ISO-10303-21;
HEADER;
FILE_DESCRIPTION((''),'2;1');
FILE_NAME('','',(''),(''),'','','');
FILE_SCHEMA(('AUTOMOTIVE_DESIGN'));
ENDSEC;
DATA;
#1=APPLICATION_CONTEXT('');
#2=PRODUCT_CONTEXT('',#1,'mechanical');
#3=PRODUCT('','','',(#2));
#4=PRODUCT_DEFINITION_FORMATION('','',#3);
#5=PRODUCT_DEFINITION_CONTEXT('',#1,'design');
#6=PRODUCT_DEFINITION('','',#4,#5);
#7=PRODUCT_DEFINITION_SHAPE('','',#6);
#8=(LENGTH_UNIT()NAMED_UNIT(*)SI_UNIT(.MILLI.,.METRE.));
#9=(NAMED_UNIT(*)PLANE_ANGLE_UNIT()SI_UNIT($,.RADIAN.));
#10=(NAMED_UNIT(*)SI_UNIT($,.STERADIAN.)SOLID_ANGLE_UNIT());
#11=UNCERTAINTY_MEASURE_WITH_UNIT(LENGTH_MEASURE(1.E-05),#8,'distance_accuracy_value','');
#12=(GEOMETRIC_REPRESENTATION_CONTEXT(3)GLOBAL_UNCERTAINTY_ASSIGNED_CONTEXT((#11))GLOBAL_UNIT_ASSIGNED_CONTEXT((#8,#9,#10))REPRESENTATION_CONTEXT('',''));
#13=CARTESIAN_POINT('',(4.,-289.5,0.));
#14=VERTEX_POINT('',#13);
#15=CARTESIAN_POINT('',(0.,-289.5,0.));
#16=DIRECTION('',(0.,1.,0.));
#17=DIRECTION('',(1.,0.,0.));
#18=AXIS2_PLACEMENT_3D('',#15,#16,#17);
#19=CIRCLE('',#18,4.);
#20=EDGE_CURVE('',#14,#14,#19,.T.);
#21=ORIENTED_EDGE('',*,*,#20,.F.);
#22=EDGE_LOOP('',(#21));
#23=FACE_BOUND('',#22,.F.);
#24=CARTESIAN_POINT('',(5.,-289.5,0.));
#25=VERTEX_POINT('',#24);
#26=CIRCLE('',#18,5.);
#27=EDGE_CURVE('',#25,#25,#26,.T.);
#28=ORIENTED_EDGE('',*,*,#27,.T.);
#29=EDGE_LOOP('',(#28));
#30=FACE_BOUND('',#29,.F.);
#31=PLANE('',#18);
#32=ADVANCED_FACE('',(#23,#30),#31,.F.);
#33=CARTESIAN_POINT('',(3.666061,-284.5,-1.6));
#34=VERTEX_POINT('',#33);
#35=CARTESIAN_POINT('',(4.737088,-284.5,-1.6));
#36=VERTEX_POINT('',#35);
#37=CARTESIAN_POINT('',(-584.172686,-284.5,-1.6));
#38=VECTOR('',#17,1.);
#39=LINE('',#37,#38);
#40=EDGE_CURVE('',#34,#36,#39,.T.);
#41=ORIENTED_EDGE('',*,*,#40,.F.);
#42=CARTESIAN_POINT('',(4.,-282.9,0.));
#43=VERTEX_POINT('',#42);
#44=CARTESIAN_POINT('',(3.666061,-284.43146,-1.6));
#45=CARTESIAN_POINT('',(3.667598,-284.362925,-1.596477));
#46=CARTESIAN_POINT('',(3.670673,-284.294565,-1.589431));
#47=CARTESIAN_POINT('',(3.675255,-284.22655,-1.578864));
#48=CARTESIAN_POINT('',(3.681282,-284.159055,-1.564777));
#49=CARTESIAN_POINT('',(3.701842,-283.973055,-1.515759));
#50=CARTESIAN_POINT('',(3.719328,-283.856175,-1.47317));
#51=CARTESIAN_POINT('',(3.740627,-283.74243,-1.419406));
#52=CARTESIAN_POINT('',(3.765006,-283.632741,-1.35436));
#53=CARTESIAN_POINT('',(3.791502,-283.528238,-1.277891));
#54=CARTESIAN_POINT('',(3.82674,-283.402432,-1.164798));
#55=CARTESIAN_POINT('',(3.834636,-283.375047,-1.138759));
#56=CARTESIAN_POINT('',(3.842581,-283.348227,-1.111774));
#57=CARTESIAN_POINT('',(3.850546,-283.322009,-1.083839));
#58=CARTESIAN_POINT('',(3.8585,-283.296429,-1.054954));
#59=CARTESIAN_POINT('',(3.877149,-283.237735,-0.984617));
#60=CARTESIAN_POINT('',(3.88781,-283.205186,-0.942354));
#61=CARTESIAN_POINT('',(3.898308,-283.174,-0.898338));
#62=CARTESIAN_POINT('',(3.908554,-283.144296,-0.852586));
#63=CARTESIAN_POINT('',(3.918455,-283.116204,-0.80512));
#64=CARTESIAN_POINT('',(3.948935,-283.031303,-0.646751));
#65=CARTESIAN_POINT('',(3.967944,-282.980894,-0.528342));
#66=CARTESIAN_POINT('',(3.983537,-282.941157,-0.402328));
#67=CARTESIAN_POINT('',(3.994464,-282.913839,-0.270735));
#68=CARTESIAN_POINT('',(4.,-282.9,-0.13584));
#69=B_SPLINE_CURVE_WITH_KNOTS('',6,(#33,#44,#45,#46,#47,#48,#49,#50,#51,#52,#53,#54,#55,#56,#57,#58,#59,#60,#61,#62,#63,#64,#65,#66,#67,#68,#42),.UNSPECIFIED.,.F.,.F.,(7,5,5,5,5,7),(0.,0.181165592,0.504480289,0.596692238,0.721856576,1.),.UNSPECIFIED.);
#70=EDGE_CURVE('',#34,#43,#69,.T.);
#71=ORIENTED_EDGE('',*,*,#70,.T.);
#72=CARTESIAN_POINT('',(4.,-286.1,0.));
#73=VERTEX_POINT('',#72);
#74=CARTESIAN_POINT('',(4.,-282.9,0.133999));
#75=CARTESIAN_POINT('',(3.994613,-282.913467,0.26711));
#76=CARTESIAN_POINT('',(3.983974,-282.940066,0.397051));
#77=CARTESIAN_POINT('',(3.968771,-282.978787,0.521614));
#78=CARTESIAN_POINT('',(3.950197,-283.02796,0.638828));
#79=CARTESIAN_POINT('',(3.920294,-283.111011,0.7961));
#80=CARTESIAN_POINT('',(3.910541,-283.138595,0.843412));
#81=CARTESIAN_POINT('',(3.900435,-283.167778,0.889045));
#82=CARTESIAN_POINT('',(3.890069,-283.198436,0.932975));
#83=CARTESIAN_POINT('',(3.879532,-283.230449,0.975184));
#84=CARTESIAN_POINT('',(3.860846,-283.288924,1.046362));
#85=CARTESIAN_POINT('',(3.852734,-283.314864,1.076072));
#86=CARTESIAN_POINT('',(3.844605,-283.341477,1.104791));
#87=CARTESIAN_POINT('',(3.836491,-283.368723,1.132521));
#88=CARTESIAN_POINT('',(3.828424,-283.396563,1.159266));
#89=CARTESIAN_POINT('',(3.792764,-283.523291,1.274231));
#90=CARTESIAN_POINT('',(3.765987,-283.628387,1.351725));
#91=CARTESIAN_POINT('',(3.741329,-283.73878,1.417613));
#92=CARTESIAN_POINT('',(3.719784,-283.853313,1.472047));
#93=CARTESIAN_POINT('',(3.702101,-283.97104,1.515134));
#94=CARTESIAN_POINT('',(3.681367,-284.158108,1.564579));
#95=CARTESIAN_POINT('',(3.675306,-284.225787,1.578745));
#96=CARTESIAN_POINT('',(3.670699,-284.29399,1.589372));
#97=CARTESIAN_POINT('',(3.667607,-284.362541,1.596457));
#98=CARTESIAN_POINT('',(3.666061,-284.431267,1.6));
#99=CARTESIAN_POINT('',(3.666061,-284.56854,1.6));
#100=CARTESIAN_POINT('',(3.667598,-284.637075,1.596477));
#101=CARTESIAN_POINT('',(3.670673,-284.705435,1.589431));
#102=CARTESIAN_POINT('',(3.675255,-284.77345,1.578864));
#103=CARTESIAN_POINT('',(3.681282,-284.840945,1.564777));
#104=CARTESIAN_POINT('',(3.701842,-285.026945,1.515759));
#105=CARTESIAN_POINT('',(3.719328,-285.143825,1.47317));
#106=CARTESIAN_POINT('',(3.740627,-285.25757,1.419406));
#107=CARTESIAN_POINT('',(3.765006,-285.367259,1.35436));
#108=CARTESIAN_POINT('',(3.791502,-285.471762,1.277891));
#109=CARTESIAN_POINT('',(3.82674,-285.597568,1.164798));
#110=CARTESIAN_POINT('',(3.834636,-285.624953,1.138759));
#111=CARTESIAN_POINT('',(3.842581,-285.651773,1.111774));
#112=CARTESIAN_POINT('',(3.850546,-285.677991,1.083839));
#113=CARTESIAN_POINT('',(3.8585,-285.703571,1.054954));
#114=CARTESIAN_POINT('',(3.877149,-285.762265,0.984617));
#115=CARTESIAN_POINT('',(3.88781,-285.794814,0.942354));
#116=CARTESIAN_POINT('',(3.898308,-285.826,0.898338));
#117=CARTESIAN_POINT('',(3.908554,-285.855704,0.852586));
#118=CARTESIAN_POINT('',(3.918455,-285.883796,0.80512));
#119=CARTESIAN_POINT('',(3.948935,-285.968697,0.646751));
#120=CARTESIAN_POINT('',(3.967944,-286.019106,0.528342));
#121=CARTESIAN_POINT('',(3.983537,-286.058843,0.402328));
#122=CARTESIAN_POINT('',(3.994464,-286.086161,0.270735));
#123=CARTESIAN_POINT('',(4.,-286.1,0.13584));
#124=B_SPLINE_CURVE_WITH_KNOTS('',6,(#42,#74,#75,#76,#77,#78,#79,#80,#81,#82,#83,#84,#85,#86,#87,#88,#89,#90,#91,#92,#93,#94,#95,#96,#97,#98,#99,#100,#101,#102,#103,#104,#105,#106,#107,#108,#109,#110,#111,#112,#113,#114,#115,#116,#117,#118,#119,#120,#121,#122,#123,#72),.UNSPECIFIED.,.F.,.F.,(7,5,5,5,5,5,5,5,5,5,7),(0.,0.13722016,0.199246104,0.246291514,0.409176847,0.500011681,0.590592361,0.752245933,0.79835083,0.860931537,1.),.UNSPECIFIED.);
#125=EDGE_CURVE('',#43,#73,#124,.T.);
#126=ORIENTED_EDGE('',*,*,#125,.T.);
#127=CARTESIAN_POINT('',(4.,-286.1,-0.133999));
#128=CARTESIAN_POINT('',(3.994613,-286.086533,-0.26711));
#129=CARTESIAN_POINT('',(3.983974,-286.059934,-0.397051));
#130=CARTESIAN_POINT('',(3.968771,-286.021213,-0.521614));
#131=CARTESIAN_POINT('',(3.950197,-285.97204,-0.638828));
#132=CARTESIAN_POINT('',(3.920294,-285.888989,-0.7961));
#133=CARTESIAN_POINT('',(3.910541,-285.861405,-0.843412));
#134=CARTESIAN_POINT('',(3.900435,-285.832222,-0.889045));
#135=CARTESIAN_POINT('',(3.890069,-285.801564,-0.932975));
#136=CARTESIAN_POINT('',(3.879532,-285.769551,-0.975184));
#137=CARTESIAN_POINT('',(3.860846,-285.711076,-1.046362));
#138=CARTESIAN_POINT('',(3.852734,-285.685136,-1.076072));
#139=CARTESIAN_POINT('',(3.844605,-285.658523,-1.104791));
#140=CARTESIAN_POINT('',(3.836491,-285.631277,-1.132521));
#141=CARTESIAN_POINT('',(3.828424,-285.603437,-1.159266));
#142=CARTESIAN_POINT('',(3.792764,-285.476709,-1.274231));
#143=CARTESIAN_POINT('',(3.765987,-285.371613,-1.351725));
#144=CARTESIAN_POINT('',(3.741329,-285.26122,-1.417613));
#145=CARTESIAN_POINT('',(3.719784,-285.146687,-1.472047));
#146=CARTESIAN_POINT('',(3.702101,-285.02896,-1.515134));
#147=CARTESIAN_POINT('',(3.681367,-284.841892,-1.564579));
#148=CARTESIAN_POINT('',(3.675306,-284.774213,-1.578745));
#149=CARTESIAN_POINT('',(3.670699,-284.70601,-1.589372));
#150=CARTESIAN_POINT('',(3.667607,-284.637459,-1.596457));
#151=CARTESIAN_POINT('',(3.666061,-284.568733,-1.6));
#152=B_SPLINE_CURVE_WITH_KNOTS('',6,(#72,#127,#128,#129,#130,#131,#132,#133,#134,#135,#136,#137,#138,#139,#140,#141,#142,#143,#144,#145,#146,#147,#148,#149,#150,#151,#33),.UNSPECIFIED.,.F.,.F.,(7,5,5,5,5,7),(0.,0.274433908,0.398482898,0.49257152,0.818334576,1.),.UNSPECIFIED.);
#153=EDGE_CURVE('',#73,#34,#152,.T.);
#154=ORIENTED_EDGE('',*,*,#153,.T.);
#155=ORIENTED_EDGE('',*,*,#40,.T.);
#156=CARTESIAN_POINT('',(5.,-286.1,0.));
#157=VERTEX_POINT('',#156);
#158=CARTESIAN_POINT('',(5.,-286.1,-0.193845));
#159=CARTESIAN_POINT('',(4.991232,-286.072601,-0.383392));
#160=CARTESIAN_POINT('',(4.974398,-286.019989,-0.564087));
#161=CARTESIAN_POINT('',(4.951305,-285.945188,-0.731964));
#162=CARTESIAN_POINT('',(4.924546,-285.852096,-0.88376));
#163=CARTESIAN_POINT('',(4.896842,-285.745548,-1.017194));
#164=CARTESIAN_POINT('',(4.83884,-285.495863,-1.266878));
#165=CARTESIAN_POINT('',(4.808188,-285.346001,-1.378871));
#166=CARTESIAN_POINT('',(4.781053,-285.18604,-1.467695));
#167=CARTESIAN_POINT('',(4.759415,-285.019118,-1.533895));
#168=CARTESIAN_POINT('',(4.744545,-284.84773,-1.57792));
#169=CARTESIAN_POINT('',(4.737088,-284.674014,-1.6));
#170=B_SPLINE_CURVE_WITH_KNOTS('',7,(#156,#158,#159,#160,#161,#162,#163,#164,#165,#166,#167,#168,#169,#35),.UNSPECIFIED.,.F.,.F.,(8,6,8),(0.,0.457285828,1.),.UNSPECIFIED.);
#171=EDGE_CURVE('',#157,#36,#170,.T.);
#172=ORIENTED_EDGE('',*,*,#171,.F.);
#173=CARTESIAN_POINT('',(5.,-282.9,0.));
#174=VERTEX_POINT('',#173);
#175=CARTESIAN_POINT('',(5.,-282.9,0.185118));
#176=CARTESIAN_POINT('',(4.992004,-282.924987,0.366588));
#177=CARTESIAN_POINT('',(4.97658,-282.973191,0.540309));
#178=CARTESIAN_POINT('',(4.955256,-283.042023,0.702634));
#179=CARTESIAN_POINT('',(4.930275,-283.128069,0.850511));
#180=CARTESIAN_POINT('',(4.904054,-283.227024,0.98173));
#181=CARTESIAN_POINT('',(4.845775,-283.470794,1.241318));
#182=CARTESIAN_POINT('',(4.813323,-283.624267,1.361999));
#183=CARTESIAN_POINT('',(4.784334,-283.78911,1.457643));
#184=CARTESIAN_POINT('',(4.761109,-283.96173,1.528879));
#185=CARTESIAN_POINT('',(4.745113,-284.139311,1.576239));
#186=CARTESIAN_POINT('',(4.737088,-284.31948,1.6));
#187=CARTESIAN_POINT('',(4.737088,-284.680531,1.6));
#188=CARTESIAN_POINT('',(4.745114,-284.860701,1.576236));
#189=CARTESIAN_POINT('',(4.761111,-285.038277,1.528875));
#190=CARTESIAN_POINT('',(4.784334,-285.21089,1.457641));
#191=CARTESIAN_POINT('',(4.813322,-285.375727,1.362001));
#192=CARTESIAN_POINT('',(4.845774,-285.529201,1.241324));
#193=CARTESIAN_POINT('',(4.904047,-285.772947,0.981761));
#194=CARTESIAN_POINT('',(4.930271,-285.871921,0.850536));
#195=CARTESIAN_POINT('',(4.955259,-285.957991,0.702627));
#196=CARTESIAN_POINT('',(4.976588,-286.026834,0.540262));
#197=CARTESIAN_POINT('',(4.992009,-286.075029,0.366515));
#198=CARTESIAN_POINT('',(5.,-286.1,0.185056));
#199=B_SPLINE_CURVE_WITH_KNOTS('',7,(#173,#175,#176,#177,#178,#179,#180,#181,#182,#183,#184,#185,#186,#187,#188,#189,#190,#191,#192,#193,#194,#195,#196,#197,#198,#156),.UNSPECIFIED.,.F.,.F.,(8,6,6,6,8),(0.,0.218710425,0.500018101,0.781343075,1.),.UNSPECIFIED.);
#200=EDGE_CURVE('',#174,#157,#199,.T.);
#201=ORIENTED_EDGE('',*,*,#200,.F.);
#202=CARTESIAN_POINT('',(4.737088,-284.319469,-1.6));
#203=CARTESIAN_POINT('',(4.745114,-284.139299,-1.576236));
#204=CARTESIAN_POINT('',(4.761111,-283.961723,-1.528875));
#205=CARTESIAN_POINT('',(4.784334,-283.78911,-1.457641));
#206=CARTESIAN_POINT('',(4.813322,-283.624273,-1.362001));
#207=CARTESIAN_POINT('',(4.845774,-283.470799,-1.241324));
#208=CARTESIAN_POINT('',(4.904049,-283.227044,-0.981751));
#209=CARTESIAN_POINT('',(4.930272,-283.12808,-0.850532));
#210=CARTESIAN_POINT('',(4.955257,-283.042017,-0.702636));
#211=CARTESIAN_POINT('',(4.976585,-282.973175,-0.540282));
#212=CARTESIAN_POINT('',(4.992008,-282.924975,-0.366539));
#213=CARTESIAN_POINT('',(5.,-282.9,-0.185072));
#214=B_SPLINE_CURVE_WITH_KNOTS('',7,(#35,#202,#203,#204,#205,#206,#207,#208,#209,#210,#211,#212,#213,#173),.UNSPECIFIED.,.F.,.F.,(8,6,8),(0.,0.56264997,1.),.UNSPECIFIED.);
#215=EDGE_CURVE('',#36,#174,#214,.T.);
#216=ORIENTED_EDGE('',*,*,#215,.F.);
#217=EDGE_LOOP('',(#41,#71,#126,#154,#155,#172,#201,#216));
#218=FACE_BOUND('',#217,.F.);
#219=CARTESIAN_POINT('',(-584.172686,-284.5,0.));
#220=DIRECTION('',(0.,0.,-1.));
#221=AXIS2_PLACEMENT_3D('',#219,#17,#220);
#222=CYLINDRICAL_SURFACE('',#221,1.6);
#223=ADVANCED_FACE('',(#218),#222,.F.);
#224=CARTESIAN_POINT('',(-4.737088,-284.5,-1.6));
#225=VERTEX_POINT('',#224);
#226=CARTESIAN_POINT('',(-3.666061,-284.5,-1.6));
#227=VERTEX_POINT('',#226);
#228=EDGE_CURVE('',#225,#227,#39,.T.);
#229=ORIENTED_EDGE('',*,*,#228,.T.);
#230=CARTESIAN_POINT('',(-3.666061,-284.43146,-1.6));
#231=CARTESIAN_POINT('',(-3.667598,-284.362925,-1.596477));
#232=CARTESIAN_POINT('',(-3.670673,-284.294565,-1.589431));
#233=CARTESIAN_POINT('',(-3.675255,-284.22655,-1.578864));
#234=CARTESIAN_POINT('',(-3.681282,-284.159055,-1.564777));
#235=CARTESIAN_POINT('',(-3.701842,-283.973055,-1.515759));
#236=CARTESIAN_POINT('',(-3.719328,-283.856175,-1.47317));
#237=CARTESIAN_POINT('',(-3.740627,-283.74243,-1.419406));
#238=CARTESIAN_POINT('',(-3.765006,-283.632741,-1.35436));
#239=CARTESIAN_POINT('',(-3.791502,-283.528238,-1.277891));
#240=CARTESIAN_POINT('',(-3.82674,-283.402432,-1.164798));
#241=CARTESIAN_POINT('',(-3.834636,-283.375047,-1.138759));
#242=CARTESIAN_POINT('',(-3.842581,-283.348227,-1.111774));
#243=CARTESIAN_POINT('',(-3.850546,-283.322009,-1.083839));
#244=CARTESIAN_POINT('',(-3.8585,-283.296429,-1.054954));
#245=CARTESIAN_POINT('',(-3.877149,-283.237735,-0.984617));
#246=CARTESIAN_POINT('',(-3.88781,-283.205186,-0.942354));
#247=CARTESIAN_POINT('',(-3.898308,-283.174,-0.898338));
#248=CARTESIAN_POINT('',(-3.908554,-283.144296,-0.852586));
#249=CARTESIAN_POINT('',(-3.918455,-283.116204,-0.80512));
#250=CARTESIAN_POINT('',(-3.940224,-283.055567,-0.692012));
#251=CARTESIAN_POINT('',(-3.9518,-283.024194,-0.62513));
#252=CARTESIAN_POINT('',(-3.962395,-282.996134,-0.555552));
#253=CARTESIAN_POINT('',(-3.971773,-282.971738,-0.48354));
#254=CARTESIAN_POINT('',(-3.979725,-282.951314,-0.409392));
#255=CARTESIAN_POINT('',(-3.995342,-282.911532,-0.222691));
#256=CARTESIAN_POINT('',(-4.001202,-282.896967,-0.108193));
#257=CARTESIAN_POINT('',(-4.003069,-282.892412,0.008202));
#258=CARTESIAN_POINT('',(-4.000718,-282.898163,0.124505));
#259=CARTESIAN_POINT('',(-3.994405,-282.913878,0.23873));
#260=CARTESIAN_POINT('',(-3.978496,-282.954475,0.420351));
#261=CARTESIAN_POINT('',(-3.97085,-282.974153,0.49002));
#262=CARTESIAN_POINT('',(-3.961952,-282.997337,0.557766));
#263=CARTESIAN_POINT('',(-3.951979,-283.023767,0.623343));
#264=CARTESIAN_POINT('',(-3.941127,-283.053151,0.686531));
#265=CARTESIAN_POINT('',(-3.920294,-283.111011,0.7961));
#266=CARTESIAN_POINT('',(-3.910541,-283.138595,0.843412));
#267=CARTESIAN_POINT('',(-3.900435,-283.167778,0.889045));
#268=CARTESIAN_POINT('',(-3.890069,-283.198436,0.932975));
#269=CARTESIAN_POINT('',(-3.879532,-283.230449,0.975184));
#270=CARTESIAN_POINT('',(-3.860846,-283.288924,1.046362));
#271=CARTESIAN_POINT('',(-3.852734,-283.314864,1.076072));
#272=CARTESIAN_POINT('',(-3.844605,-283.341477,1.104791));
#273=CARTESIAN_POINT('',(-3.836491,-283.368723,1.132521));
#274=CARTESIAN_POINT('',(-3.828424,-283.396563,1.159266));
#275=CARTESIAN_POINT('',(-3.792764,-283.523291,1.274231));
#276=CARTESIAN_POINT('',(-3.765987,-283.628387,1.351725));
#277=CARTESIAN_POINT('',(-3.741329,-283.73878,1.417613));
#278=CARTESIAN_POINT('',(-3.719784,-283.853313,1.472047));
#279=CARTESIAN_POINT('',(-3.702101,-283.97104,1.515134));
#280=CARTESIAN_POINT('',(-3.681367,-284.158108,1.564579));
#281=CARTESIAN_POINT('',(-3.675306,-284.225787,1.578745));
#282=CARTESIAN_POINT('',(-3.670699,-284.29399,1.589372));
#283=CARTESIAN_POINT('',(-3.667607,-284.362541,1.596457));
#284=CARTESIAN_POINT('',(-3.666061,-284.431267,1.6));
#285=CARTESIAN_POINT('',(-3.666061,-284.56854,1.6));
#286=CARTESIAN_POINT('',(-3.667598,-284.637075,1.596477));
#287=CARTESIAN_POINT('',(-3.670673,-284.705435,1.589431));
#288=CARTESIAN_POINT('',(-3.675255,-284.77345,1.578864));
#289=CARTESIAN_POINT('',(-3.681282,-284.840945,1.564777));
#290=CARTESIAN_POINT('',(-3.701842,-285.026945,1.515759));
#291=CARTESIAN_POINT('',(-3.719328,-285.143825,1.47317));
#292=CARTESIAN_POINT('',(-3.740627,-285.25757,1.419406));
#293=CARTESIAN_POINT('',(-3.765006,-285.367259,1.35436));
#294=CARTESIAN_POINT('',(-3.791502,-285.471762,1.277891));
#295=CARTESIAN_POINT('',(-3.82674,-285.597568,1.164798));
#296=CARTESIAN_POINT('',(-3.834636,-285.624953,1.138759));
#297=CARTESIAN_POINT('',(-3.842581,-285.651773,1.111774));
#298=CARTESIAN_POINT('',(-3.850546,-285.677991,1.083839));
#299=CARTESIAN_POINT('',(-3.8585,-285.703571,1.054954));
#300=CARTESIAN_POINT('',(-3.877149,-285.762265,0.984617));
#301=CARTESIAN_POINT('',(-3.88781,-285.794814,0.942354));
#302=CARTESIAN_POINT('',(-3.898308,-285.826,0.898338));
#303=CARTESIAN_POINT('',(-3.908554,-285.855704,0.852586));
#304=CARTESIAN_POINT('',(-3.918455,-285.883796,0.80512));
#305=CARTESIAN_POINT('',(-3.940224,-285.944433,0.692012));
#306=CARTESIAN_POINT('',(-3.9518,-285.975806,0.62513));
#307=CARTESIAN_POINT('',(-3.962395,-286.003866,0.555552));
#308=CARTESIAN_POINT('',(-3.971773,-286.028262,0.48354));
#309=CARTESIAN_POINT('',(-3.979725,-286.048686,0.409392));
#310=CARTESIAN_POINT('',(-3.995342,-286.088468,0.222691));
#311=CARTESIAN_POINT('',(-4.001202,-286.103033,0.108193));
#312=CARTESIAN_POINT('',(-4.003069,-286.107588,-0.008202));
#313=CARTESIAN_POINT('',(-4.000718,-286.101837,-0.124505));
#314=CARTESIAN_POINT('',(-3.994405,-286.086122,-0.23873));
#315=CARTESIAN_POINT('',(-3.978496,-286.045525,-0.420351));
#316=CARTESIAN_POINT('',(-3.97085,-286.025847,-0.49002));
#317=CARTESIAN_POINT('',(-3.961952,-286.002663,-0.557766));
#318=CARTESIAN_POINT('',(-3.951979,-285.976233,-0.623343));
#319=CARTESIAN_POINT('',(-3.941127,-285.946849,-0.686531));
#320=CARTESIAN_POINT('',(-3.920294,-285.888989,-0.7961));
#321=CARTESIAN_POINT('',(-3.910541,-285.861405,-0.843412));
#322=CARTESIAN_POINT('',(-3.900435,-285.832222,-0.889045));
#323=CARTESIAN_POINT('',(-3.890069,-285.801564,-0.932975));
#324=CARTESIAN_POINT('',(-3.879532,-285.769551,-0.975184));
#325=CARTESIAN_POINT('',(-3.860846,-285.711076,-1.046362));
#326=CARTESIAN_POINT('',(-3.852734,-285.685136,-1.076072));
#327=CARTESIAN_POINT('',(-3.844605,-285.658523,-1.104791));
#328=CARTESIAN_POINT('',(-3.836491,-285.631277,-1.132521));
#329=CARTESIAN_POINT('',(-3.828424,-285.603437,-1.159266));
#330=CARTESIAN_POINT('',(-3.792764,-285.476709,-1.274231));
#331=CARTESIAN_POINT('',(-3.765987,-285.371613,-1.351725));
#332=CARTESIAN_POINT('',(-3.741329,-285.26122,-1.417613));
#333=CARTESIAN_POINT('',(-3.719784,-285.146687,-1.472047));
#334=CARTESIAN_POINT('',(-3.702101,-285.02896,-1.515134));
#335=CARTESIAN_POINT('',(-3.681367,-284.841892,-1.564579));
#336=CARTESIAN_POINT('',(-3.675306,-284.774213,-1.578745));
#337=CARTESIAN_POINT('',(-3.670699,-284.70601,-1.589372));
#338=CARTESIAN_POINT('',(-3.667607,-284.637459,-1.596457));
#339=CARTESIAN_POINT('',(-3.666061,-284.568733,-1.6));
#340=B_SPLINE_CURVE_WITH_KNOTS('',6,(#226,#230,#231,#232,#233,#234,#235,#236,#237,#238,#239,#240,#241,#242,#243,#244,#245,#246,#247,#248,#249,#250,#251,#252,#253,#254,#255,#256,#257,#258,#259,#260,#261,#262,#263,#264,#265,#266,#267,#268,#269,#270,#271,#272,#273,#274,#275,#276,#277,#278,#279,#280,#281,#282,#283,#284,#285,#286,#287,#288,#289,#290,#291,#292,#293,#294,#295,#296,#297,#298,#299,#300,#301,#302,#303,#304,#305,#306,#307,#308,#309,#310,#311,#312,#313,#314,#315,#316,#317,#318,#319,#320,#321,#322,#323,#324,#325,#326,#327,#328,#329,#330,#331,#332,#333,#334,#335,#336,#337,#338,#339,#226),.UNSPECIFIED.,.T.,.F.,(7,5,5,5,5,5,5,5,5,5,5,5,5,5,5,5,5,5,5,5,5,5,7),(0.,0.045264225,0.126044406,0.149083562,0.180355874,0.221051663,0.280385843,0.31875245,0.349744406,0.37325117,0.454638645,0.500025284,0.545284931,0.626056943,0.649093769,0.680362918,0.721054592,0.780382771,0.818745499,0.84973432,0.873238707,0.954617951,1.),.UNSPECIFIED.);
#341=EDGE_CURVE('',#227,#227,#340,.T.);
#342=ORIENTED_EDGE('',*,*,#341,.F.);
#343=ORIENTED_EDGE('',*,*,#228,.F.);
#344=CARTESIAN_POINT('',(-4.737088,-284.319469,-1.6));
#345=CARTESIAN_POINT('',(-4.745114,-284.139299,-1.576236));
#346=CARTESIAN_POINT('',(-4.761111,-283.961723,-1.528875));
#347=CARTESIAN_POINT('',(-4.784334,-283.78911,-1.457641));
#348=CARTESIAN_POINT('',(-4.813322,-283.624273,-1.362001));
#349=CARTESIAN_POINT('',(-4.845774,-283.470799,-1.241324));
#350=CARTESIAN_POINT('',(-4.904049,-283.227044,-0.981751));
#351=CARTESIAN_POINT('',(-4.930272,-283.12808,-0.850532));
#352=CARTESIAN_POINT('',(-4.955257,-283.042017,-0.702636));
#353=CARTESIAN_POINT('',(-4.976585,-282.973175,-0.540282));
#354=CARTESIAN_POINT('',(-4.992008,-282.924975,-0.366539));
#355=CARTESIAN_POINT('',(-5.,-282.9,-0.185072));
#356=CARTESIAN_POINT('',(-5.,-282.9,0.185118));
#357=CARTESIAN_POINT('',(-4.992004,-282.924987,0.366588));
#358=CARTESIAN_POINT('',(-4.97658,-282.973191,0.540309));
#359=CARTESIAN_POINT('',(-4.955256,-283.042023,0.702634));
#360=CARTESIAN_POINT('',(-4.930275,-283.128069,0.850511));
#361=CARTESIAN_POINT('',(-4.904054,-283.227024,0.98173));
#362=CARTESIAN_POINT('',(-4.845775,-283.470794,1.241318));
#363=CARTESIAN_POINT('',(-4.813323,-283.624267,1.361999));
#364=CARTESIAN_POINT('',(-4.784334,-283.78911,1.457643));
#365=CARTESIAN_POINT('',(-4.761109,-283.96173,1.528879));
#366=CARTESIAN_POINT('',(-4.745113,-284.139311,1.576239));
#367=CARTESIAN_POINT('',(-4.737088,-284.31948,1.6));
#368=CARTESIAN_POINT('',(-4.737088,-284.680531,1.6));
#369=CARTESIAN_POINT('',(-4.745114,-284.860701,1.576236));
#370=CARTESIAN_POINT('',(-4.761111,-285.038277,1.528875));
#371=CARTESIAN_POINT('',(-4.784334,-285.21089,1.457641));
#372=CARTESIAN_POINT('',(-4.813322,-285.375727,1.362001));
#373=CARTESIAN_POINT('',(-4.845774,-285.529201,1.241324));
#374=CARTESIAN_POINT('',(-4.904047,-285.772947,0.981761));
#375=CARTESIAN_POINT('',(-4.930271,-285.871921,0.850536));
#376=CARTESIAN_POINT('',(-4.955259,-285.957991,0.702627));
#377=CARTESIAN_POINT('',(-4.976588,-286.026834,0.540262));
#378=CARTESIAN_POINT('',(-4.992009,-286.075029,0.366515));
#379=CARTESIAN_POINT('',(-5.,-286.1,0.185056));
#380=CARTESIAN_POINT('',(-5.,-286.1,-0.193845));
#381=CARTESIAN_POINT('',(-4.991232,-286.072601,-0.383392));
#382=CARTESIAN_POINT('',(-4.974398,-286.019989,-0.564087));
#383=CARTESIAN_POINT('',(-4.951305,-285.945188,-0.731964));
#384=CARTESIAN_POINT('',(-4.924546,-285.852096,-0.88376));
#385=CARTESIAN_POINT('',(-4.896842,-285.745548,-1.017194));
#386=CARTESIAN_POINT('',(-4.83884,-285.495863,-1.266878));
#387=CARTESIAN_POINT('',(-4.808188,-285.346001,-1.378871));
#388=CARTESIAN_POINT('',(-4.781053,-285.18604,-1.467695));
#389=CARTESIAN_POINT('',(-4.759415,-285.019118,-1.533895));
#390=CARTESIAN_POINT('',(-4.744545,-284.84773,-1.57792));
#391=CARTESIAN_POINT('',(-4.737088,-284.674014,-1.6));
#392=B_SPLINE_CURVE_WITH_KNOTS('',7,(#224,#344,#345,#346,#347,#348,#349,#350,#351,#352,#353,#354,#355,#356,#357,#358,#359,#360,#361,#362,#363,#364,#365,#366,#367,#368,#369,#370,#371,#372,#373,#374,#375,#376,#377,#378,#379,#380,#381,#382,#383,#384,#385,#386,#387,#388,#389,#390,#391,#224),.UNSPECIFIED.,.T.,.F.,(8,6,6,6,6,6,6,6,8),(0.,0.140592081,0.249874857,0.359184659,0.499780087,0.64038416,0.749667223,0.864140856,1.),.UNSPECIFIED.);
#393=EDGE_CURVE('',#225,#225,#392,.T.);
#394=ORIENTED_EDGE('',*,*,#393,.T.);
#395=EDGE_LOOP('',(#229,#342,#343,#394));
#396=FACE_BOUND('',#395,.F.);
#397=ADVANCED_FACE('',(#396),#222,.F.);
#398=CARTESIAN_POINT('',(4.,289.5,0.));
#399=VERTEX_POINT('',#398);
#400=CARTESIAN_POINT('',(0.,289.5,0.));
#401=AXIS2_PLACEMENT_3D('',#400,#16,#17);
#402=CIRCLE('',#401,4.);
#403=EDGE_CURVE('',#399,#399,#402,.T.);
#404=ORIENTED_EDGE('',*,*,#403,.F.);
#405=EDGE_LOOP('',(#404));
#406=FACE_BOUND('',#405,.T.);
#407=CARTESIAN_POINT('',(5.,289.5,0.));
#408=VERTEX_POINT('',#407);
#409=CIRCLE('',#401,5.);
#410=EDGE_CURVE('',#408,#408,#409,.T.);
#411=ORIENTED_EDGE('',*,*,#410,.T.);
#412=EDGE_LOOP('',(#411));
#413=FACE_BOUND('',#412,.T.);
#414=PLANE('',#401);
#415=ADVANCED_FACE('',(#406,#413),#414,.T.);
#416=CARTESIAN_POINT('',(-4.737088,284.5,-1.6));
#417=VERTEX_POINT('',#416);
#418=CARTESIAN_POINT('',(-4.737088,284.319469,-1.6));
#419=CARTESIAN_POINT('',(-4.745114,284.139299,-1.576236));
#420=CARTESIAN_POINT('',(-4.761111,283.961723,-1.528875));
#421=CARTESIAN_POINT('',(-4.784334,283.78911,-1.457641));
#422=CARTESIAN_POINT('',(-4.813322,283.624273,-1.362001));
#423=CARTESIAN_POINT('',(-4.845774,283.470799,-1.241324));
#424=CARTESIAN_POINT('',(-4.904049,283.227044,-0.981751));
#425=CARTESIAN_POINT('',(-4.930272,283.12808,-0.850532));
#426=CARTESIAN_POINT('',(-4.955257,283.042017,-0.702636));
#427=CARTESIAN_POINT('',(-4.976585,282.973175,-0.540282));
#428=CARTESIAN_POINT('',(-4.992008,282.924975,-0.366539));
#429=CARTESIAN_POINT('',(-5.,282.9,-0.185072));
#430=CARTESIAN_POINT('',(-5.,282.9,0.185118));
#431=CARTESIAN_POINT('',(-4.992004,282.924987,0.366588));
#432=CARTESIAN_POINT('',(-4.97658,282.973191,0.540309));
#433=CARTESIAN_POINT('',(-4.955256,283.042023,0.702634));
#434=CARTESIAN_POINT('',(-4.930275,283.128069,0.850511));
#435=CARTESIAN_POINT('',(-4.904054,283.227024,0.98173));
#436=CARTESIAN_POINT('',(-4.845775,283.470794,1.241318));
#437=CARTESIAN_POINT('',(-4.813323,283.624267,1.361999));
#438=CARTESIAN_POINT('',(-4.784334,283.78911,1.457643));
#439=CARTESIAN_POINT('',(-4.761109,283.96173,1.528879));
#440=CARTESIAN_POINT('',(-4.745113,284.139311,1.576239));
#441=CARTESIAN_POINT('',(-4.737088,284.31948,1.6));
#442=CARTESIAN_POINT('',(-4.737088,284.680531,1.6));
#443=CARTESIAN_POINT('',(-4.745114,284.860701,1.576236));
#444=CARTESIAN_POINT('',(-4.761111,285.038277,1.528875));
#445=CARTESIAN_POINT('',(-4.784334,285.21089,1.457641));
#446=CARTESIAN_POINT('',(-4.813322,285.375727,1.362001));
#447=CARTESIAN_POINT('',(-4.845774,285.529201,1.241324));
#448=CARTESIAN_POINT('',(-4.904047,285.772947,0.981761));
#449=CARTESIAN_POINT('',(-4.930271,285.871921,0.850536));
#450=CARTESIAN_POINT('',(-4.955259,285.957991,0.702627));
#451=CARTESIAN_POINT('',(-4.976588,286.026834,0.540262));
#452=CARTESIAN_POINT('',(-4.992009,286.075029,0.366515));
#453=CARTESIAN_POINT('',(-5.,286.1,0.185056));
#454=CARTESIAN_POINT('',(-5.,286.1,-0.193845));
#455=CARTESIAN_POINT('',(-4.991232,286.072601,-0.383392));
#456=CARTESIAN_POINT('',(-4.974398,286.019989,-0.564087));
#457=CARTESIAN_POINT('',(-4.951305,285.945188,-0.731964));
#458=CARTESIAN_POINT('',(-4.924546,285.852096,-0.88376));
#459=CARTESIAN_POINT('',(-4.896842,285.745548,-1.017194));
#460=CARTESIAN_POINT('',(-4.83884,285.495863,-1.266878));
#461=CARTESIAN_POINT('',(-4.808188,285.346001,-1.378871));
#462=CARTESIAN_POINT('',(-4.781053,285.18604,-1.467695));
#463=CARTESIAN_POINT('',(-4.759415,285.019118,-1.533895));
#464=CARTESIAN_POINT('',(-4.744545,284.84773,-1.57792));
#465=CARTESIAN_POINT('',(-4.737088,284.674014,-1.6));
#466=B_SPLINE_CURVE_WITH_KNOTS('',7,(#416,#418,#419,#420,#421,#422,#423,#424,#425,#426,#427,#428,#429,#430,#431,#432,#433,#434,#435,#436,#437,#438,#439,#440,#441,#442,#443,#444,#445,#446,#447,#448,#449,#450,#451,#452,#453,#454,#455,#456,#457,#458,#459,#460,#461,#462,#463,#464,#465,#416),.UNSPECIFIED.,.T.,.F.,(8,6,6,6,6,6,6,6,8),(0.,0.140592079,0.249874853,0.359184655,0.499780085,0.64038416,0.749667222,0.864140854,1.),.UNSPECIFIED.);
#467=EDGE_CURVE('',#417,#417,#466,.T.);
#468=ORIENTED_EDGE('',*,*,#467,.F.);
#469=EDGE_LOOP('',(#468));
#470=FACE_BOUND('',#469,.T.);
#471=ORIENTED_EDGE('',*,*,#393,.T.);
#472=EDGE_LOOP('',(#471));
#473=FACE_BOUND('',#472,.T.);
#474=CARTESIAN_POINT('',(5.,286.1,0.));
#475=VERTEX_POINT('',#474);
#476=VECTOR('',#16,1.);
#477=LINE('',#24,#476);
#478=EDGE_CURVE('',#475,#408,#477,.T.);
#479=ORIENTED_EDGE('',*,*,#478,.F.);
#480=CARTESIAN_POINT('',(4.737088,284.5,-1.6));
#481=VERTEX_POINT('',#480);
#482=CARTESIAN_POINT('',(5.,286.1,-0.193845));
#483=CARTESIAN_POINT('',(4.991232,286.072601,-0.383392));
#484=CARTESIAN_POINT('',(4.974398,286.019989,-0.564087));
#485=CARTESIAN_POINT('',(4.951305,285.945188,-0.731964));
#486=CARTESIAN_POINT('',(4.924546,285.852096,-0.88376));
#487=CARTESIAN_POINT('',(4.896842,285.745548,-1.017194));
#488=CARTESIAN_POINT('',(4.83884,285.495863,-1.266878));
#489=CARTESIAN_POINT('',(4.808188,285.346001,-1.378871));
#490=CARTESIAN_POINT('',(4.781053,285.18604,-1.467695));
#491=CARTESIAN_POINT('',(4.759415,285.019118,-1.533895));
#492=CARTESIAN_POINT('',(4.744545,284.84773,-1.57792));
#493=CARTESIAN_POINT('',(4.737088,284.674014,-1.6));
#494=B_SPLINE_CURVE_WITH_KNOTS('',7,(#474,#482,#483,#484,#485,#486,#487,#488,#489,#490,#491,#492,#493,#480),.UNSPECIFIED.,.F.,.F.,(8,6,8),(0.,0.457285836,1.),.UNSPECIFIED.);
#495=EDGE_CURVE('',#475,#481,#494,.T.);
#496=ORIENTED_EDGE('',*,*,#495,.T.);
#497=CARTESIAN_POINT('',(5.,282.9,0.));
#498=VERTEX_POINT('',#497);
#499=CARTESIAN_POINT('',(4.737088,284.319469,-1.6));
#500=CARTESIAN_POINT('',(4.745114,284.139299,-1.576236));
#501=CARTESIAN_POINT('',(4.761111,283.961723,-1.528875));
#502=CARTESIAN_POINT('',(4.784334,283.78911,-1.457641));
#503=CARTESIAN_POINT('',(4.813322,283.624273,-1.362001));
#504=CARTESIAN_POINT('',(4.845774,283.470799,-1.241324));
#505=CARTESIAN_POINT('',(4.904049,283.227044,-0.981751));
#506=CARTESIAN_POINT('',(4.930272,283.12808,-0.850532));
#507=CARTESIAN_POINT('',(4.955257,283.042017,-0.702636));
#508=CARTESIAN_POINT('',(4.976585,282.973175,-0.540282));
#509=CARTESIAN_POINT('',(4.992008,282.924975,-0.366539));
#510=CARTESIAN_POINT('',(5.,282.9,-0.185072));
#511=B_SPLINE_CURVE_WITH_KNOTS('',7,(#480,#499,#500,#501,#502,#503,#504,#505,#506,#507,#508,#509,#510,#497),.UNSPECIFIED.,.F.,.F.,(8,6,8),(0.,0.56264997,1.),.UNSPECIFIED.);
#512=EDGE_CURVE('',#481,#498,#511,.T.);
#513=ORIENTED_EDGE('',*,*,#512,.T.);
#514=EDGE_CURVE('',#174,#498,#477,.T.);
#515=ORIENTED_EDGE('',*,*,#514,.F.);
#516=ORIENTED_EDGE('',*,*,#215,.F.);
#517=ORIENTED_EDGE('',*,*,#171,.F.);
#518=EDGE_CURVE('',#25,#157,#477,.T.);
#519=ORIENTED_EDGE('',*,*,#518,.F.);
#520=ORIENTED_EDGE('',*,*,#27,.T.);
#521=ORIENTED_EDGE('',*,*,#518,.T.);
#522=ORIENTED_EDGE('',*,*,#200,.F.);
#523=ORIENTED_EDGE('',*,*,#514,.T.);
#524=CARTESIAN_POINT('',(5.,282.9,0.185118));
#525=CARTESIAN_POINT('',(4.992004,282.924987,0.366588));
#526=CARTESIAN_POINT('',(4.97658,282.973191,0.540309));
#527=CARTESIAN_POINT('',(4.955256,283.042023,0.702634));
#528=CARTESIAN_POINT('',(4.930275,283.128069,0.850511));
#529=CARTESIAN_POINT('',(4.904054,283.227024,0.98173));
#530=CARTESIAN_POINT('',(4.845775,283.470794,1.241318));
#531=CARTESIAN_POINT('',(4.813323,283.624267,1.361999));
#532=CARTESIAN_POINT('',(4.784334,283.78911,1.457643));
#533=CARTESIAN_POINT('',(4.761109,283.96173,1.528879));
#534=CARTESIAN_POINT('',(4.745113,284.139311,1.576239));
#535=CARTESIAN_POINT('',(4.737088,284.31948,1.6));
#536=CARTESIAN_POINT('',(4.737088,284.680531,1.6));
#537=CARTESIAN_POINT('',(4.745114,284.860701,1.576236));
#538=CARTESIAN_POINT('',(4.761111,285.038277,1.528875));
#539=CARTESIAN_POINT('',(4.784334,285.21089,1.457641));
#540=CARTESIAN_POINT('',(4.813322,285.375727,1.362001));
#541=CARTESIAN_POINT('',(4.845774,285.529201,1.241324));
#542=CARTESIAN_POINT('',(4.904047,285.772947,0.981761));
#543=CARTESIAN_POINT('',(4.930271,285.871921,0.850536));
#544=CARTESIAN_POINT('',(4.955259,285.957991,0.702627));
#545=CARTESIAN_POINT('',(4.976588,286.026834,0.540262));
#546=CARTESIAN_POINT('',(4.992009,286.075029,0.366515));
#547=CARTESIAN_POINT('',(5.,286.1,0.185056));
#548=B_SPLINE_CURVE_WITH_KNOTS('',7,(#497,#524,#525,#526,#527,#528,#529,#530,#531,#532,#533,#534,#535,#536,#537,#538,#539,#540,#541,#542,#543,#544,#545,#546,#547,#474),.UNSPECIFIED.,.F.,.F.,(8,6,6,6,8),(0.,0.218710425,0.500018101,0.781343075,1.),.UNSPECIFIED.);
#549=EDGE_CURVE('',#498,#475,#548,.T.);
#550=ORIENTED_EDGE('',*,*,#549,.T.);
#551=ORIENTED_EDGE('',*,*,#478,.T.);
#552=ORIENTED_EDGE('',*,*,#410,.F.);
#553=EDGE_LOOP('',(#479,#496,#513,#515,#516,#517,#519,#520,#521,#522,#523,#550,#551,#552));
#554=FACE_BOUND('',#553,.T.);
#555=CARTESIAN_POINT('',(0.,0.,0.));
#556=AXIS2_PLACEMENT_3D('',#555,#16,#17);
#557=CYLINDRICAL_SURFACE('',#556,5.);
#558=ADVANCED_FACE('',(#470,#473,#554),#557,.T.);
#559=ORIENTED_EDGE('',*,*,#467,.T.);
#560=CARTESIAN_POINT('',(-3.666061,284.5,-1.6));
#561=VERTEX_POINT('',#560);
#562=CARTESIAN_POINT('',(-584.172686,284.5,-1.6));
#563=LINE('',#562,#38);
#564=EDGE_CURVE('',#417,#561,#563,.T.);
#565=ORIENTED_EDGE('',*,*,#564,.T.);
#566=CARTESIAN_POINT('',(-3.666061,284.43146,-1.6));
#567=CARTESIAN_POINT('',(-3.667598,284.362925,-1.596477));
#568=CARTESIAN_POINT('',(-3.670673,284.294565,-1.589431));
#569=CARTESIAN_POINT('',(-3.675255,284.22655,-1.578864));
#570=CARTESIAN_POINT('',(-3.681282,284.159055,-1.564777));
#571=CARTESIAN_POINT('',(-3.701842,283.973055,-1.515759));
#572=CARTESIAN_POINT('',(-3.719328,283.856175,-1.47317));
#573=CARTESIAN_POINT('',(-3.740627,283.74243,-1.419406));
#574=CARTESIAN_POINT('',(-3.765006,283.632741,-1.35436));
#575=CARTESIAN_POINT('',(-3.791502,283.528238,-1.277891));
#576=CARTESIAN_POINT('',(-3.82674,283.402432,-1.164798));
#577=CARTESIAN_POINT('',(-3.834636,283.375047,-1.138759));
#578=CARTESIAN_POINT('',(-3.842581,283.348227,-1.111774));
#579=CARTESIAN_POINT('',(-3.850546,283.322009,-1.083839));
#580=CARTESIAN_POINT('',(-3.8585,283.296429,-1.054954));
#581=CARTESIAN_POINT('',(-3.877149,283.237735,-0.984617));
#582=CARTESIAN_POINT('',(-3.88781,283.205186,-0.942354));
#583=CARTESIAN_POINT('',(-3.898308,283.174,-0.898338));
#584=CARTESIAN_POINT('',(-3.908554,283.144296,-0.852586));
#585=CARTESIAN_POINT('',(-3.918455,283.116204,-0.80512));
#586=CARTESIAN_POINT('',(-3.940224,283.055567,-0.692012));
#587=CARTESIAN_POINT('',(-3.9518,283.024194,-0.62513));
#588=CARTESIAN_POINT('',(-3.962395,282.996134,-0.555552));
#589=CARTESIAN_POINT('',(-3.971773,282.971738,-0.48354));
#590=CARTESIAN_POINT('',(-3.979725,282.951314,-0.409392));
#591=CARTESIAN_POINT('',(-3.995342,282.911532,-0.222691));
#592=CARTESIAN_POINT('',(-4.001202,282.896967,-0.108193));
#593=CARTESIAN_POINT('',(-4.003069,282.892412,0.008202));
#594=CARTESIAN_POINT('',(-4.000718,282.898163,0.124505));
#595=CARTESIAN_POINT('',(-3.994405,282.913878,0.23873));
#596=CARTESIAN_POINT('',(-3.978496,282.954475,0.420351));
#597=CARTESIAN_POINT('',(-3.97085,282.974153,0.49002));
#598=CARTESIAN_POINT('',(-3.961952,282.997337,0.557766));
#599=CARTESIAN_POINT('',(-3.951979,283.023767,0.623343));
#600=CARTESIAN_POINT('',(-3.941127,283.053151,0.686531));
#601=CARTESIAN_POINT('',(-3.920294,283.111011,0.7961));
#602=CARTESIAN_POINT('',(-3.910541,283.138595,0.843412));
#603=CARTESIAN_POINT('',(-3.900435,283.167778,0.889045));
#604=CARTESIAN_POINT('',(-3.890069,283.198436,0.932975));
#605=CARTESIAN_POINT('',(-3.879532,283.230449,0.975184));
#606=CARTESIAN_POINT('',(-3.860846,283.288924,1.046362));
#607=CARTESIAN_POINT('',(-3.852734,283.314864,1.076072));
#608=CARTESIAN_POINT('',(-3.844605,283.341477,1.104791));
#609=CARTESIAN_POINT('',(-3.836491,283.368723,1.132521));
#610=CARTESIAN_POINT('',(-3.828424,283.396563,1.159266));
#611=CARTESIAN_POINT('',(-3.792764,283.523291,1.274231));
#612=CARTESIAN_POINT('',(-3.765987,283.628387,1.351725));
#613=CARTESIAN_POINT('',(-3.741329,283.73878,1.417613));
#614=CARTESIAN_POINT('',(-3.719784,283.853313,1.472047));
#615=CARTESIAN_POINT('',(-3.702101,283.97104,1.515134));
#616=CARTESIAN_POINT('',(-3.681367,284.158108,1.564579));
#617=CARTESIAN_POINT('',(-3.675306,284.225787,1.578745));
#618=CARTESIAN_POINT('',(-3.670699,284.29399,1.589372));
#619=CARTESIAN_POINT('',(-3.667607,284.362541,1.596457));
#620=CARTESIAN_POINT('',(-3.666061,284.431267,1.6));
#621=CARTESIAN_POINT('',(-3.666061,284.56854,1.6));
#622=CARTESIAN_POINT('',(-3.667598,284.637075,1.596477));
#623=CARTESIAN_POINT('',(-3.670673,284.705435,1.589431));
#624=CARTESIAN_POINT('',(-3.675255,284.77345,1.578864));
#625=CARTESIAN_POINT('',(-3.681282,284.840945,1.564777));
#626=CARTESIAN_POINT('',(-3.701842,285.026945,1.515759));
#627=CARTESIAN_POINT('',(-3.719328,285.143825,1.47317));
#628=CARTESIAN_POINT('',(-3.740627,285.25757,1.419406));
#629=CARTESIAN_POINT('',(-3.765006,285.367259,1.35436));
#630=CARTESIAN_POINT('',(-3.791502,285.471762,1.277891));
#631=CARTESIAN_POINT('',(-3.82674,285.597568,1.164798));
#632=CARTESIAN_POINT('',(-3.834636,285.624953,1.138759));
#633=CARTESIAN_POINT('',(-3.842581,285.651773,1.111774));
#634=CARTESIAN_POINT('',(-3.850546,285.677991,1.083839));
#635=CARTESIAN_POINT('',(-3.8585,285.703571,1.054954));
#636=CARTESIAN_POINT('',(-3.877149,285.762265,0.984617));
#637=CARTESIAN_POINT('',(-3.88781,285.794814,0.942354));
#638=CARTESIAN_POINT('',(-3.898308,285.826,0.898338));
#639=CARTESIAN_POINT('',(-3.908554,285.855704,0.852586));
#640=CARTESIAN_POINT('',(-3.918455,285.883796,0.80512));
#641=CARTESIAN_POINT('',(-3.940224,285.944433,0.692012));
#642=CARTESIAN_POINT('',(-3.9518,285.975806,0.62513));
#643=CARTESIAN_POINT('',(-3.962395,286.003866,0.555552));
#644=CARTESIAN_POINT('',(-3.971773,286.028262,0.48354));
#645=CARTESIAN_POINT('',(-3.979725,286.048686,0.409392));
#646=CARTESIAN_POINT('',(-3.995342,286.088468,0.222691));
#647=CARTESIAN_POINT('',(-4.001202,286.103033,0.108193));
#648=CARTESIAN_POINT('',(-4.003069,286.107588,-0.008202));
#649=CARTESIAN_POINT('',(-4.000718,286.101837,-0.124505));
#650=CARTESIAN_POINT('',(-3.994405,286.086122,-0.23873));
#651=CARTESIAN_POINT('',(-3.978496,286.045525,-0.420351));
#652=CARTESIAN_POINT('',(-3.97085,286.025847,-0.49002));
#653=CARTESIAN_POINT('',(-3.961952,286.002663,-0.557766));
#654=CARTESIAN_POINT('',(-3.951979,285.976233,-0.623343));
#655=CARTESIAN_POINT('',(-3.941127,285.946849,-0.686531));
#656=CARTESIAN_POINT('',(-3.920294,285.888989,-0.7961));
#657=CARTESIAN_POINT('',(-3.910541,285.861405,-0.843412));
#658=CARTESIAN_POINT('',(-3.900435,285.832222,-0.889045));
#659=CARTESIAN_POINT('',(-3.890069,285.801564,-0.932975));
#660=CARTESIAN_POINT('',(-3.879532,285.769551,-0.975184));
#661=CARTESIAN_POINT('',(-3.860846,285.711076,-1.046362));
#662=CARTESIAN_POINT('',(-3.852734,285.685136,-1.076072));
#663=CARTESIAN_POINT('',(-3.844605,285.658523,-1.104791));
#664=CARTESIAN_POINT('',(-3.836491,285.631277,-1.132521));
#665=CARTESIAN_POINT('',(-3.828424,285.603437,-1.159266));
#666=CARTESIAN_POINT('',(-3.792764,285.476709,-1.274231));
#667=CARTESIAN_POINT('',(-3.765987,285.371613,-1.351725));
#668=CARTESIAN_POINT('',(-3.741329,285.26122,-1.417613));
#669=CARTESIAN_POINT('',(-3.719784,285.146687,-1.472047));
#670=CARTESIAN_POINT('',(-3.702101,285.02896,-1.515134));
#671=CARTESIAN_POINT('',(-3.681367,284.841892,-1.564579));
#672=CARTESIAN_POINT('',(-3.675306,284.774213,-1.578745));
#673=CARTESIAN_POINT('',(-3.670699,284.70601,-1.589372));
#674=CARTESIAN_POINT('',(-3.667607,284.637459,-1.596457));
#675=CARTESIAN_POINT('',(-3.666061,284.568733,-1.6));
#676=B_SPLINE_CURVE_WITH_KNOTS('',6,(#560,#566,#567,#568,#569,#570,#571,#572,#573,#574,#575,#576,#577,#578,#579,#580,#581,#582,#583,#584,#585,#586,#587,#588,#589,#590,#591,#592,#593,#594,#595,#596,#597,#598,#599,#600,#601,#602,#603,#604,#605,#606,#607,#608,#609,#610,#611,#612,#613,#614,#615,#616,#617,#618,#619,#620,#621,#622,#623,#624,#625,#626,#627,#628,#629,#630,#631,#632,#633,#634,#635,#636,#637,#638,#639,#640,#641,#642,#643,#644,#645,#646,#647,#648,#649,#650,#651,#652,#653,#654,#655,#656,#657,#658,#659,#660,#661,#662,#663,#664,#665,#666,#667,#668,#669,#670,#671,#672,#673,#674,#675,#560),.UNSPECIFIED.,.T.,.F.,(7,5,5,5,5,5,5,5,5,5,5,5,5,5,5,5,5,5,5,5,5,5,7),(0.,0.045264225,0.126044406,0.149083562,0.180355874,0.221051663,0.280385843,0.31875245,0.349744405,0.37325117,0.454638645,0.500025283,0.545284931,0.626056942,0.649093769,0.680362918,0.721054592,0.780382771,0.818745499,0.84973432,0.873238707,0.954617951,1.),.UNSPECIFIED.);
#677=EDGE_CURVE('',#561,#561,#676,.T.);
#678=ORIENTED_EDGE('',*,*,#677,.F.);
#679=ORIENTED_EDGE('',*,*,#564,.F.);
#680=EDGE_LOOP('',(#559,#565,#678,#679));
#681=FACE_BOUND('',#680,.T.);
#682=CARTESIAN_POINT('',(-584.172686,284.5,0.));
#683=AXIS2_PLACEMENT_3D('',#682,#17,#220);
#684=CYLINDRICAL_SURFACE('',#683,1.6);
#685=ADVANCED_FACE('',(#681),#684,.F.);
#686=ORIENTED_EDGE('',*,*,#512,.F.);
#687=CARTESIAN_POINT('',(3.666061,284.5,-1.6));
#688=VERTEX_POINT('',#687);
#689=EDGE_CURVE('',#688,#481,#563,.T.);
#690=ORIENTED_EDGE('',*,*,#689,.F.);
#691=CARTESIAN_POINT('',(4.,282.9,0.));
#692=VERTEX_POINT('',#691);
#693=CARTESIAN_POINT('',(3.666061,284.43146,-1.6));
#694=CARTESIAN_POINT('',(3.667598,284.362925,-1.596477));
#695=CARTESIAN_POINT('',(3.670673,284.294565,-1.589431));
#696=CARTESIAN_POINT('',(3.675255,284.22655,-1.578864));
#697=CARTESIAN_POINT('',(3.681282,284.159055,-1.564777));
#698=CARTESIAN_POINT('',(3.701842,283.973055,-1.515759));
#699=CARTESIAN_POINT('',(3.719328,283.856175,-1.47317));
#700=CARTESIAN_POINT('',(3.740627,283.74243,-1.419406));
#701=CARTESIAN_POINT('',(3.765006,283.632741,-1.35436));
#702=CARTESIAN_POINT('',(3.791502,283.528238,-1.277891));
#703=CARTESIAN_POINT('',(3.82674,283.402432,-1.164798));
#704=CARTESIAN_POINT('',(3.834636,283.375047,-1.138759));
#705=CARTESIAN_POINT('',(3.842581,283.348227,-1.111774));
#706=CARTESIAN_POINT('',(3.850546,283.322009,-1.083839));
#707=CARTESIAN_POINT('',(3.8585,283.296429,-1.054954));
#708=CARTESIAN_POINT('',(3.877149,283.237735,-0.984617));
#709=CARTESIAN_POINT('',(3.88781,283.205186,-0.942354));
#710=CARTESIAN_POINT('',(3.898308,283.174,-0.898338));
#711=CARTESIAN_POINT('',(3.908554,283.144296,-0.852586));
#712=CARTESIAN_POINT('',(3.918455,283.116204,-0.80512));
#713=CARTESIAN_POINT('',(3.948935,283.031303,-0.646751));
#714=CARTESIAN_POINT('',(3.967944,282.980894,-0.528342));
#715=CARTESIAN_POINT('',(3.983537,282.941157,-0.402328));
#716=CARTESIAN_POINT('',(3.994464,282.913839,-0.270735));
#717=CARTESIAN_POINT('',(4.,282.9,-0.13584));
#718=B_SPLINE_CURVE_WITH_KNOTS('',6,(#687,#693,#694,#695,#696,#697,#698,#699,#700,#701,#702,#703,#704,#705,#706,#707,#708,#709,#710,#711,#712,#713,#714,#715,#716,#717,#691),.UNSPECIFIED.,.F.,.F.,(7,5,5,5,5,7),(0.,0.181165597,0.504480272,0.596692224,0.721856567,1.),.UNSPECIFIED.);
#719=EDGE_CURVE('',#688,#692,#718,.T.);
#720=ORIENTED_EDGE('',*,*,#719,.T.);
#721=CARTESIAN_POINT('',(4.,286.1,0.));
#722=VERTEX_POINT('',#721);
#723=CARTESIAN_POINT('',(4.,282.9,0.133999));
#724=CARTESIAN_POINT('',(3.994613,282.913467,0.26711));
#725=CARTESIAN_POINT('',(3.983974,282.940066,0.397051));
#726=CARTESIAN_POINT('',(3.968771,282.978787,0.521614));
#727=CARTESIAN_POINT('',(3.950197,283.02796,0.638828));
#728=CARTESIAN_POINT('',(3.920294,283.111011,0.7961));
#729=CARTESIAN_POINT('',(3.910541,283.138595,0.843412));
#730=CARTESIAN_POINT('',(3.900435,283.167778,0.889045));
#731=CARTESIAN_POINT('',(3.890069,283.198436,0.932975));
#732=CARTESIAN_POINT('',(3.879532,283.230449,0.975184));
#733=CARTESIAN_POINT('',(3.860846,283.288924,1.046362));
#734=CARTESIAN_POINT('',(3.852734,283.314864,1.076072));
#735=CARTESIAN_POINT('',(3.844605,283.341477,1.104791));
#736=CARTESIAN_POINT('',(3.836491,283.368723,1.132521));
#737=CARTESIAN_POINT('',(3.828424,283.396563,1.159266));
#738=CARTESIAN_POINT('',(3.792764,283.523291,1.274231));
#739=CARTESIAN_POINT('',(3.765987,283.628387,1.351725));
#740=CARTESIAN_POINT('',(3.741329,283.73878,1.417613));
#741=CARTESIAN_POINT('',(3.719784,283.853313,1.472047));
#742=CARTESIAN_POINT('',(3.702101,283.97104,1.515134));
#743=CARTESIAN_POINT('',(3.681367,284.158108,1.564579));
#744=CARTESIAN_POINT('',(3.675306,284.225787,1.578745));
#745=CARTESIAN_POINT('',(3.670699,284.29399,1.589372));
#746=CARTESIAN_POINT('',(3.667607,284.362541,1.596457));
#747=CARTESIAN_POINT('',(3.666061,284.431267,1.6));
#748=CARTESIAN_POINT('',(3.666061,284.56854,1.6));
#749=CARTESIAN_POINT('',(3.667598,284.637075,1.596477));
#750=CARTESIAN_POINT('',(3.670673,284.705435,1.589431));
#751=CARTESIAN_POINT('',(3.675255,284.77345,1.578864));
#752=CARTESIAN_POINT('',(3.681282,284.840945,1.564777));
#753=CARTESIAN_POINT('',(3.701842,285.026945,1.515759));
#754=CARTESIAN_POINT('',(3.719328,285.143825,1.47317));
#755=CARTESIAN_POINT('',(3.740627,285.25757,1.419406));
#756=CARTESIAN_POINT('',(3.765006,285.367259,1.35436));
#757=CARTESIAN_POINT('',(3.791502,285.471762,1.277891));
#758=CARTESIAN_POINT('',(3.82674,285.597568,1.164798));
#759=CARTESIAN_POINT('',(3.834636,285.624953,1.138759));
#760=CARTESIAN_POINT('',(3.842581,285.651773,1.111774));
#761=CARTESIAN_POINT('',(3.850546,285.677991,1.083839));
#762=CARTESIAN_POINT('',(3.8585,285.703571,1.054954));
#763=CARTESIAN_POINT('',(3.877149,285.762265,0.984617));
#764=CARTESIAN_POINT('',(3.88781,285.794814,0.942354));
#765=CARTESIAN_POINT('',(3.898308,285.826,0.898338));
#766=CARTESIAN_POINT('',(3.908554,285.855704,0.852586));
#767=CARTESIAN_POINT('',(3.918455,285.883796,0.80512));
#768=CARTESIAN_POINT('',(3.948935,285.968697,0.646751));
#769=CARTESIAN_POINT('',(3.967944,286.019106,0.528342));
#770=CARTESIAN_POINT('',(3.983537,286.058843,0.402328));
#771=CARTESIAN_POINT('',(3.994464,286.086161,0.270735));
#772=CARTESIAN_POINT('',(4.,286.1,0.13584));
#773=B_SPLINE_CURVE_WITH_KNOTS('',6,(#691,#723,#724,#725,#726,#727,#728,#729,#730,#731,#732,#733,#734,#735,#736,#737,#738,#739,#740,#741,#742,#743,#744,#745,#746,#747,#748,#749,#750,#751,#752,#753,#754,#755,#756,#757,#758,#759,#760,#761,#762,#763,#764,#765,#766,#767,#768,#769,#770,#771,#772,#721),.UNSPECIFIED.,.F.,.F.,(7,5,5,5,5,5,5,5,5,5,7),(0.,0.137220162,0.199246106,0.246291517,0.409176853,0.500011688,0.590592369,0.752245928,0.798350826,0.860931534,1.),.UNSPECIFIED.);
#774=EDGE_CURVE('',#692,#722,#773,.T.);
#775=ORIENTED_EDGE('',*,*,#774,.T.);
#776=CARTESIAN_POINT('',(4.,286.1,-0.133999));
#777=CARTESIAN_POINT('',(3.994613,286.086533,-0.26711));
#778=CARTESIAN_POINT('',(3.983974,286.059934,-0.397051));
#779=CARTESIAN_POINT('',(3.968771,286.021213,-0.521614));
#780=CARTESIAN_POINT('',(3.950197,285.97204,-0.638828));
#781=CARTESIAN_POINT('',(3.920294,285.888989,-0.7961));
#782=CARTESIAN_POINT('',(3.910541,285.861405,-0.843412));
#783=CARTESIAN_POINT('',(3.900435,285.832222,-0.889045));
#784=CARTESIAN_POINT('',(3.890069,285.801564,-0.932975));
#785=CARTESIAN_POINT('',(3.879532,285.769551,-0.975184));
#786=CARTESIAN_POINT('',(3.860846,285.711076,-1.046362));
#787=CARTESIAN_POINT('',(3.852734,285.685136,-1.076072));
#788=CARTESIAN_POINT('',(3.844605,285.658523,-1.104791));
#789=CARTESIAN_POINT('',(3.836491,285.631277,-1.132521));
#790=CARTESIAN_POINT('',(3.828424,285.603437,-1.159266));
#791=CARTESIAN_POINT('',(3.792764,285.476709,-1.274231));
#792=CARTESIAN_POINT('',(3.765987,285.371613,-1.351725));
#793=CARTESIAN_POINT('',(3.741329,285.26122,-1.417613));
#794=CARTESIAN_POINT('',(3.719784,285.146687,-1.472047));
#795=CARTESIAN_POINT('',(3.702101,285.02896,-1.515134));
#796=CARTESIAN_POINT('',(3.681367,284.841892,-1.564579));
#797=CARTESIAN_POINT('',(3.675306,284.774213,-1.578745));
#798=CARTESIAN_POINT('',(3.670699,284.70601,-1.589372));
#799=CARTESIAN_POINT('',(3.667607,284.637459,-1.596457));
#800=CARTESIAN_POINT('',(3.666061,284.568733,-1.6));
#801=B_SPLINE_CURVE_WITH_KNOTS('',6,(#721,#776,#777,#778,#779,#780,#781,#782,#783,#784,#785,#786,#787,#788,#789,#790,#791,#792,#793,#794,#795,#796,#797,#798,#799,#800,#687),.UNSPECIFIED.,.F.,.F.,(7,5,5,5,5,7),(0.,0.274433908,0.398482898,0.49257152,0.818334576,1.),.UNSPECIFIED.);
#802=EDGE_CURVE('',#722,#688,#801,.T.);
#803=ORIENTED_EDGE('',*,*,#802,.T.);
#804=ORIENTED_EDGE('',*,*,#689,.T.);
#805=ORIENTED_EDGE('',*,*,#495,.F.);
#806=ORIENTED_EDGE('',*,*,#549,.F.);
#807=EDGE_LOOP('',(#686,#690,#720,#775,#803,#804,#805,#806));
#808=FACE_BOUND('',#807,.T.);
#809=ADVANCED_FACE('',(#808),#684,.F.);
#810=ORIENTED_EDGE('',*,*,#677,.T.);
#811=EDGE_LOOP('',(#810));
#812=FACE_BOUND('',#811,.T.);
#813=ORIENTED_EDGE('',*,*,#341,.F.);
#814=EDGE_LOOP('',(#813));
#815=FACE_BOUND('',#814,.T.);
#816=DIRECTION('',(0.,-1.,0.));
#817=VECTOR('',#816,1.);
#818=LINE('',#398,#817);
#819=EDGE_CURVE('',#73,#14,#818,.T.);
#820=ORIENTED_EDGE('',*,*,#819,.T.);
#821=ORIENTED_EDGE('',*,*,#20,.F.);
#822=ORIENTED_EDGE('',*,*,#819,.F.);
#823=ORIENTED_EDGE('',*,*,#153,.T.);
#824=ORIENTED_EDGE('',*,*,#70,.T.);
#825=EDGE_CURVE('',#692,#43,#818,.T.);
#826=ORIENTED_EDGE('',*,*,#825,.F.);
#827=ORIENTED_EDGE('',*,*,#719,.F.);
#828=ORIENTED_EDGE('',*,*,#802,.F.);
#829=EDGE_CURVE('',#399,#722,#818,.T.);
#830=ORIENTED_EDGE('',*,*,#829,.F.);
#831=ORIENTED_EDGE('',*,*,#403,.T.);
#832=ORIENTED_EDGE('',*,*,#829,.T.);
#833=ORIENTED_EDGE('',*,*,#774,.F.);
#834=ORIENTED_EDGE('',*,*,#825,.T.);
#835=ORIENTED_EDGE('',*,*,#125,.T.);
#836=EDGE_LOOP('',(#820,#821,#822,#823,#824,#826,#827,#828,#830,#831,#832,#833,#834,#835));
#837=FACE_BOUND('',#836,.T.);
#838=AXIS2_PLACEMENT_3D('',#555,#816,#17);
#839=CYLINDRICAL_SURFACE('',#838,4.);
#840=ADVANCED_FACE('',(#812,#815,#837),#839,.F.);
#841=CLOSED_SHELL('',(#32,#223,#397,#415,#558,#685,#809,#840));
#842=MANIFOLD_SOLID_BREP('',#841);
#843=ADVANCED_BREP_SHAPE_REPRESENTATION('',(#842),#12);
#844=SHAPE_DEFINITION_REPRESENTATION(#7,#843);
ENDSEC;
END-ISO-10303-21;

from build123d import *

# Parameters (mm, degrees)
SKETCH1_R            = 5
SKETCH1_R_2          = 4
BOSS_EXTRUDE1_DEPTH  = 289.5
M3_CLEARANCE_HOLE1_D = 3.2


with BuildPart() as part:
    # Sketch1 → Boss-Extrude1 (new, symmetric)
    with BuildSketch(Plane(origin=(0, 0, 0), x_dir=(1, 0, 0), z_dir=(0, 1, 0))):
        Circle(SKETCH1_R)
        Circle(SKETCH1_R_2, mode=Mode.SUBTRACT)
    extrude(amount=BOSS_EXTRUDE1_DEPTH, both=True)

    # M3 Clearance Hole1 (through all)
    with Locations(Plane.ZY.offset(5)):
        with Locations((0, -284.5)):
            m3_clearance_hole1 = Hole(M3_CLEARANCE_HOLE1_D / 2)

    # Mirror1: M3 Clearance Hole1 across plane
    add(m3_clearance_hole1.mirror(Plane.ZX), mode=Mode.SUBTRACT)


solid = part.part
